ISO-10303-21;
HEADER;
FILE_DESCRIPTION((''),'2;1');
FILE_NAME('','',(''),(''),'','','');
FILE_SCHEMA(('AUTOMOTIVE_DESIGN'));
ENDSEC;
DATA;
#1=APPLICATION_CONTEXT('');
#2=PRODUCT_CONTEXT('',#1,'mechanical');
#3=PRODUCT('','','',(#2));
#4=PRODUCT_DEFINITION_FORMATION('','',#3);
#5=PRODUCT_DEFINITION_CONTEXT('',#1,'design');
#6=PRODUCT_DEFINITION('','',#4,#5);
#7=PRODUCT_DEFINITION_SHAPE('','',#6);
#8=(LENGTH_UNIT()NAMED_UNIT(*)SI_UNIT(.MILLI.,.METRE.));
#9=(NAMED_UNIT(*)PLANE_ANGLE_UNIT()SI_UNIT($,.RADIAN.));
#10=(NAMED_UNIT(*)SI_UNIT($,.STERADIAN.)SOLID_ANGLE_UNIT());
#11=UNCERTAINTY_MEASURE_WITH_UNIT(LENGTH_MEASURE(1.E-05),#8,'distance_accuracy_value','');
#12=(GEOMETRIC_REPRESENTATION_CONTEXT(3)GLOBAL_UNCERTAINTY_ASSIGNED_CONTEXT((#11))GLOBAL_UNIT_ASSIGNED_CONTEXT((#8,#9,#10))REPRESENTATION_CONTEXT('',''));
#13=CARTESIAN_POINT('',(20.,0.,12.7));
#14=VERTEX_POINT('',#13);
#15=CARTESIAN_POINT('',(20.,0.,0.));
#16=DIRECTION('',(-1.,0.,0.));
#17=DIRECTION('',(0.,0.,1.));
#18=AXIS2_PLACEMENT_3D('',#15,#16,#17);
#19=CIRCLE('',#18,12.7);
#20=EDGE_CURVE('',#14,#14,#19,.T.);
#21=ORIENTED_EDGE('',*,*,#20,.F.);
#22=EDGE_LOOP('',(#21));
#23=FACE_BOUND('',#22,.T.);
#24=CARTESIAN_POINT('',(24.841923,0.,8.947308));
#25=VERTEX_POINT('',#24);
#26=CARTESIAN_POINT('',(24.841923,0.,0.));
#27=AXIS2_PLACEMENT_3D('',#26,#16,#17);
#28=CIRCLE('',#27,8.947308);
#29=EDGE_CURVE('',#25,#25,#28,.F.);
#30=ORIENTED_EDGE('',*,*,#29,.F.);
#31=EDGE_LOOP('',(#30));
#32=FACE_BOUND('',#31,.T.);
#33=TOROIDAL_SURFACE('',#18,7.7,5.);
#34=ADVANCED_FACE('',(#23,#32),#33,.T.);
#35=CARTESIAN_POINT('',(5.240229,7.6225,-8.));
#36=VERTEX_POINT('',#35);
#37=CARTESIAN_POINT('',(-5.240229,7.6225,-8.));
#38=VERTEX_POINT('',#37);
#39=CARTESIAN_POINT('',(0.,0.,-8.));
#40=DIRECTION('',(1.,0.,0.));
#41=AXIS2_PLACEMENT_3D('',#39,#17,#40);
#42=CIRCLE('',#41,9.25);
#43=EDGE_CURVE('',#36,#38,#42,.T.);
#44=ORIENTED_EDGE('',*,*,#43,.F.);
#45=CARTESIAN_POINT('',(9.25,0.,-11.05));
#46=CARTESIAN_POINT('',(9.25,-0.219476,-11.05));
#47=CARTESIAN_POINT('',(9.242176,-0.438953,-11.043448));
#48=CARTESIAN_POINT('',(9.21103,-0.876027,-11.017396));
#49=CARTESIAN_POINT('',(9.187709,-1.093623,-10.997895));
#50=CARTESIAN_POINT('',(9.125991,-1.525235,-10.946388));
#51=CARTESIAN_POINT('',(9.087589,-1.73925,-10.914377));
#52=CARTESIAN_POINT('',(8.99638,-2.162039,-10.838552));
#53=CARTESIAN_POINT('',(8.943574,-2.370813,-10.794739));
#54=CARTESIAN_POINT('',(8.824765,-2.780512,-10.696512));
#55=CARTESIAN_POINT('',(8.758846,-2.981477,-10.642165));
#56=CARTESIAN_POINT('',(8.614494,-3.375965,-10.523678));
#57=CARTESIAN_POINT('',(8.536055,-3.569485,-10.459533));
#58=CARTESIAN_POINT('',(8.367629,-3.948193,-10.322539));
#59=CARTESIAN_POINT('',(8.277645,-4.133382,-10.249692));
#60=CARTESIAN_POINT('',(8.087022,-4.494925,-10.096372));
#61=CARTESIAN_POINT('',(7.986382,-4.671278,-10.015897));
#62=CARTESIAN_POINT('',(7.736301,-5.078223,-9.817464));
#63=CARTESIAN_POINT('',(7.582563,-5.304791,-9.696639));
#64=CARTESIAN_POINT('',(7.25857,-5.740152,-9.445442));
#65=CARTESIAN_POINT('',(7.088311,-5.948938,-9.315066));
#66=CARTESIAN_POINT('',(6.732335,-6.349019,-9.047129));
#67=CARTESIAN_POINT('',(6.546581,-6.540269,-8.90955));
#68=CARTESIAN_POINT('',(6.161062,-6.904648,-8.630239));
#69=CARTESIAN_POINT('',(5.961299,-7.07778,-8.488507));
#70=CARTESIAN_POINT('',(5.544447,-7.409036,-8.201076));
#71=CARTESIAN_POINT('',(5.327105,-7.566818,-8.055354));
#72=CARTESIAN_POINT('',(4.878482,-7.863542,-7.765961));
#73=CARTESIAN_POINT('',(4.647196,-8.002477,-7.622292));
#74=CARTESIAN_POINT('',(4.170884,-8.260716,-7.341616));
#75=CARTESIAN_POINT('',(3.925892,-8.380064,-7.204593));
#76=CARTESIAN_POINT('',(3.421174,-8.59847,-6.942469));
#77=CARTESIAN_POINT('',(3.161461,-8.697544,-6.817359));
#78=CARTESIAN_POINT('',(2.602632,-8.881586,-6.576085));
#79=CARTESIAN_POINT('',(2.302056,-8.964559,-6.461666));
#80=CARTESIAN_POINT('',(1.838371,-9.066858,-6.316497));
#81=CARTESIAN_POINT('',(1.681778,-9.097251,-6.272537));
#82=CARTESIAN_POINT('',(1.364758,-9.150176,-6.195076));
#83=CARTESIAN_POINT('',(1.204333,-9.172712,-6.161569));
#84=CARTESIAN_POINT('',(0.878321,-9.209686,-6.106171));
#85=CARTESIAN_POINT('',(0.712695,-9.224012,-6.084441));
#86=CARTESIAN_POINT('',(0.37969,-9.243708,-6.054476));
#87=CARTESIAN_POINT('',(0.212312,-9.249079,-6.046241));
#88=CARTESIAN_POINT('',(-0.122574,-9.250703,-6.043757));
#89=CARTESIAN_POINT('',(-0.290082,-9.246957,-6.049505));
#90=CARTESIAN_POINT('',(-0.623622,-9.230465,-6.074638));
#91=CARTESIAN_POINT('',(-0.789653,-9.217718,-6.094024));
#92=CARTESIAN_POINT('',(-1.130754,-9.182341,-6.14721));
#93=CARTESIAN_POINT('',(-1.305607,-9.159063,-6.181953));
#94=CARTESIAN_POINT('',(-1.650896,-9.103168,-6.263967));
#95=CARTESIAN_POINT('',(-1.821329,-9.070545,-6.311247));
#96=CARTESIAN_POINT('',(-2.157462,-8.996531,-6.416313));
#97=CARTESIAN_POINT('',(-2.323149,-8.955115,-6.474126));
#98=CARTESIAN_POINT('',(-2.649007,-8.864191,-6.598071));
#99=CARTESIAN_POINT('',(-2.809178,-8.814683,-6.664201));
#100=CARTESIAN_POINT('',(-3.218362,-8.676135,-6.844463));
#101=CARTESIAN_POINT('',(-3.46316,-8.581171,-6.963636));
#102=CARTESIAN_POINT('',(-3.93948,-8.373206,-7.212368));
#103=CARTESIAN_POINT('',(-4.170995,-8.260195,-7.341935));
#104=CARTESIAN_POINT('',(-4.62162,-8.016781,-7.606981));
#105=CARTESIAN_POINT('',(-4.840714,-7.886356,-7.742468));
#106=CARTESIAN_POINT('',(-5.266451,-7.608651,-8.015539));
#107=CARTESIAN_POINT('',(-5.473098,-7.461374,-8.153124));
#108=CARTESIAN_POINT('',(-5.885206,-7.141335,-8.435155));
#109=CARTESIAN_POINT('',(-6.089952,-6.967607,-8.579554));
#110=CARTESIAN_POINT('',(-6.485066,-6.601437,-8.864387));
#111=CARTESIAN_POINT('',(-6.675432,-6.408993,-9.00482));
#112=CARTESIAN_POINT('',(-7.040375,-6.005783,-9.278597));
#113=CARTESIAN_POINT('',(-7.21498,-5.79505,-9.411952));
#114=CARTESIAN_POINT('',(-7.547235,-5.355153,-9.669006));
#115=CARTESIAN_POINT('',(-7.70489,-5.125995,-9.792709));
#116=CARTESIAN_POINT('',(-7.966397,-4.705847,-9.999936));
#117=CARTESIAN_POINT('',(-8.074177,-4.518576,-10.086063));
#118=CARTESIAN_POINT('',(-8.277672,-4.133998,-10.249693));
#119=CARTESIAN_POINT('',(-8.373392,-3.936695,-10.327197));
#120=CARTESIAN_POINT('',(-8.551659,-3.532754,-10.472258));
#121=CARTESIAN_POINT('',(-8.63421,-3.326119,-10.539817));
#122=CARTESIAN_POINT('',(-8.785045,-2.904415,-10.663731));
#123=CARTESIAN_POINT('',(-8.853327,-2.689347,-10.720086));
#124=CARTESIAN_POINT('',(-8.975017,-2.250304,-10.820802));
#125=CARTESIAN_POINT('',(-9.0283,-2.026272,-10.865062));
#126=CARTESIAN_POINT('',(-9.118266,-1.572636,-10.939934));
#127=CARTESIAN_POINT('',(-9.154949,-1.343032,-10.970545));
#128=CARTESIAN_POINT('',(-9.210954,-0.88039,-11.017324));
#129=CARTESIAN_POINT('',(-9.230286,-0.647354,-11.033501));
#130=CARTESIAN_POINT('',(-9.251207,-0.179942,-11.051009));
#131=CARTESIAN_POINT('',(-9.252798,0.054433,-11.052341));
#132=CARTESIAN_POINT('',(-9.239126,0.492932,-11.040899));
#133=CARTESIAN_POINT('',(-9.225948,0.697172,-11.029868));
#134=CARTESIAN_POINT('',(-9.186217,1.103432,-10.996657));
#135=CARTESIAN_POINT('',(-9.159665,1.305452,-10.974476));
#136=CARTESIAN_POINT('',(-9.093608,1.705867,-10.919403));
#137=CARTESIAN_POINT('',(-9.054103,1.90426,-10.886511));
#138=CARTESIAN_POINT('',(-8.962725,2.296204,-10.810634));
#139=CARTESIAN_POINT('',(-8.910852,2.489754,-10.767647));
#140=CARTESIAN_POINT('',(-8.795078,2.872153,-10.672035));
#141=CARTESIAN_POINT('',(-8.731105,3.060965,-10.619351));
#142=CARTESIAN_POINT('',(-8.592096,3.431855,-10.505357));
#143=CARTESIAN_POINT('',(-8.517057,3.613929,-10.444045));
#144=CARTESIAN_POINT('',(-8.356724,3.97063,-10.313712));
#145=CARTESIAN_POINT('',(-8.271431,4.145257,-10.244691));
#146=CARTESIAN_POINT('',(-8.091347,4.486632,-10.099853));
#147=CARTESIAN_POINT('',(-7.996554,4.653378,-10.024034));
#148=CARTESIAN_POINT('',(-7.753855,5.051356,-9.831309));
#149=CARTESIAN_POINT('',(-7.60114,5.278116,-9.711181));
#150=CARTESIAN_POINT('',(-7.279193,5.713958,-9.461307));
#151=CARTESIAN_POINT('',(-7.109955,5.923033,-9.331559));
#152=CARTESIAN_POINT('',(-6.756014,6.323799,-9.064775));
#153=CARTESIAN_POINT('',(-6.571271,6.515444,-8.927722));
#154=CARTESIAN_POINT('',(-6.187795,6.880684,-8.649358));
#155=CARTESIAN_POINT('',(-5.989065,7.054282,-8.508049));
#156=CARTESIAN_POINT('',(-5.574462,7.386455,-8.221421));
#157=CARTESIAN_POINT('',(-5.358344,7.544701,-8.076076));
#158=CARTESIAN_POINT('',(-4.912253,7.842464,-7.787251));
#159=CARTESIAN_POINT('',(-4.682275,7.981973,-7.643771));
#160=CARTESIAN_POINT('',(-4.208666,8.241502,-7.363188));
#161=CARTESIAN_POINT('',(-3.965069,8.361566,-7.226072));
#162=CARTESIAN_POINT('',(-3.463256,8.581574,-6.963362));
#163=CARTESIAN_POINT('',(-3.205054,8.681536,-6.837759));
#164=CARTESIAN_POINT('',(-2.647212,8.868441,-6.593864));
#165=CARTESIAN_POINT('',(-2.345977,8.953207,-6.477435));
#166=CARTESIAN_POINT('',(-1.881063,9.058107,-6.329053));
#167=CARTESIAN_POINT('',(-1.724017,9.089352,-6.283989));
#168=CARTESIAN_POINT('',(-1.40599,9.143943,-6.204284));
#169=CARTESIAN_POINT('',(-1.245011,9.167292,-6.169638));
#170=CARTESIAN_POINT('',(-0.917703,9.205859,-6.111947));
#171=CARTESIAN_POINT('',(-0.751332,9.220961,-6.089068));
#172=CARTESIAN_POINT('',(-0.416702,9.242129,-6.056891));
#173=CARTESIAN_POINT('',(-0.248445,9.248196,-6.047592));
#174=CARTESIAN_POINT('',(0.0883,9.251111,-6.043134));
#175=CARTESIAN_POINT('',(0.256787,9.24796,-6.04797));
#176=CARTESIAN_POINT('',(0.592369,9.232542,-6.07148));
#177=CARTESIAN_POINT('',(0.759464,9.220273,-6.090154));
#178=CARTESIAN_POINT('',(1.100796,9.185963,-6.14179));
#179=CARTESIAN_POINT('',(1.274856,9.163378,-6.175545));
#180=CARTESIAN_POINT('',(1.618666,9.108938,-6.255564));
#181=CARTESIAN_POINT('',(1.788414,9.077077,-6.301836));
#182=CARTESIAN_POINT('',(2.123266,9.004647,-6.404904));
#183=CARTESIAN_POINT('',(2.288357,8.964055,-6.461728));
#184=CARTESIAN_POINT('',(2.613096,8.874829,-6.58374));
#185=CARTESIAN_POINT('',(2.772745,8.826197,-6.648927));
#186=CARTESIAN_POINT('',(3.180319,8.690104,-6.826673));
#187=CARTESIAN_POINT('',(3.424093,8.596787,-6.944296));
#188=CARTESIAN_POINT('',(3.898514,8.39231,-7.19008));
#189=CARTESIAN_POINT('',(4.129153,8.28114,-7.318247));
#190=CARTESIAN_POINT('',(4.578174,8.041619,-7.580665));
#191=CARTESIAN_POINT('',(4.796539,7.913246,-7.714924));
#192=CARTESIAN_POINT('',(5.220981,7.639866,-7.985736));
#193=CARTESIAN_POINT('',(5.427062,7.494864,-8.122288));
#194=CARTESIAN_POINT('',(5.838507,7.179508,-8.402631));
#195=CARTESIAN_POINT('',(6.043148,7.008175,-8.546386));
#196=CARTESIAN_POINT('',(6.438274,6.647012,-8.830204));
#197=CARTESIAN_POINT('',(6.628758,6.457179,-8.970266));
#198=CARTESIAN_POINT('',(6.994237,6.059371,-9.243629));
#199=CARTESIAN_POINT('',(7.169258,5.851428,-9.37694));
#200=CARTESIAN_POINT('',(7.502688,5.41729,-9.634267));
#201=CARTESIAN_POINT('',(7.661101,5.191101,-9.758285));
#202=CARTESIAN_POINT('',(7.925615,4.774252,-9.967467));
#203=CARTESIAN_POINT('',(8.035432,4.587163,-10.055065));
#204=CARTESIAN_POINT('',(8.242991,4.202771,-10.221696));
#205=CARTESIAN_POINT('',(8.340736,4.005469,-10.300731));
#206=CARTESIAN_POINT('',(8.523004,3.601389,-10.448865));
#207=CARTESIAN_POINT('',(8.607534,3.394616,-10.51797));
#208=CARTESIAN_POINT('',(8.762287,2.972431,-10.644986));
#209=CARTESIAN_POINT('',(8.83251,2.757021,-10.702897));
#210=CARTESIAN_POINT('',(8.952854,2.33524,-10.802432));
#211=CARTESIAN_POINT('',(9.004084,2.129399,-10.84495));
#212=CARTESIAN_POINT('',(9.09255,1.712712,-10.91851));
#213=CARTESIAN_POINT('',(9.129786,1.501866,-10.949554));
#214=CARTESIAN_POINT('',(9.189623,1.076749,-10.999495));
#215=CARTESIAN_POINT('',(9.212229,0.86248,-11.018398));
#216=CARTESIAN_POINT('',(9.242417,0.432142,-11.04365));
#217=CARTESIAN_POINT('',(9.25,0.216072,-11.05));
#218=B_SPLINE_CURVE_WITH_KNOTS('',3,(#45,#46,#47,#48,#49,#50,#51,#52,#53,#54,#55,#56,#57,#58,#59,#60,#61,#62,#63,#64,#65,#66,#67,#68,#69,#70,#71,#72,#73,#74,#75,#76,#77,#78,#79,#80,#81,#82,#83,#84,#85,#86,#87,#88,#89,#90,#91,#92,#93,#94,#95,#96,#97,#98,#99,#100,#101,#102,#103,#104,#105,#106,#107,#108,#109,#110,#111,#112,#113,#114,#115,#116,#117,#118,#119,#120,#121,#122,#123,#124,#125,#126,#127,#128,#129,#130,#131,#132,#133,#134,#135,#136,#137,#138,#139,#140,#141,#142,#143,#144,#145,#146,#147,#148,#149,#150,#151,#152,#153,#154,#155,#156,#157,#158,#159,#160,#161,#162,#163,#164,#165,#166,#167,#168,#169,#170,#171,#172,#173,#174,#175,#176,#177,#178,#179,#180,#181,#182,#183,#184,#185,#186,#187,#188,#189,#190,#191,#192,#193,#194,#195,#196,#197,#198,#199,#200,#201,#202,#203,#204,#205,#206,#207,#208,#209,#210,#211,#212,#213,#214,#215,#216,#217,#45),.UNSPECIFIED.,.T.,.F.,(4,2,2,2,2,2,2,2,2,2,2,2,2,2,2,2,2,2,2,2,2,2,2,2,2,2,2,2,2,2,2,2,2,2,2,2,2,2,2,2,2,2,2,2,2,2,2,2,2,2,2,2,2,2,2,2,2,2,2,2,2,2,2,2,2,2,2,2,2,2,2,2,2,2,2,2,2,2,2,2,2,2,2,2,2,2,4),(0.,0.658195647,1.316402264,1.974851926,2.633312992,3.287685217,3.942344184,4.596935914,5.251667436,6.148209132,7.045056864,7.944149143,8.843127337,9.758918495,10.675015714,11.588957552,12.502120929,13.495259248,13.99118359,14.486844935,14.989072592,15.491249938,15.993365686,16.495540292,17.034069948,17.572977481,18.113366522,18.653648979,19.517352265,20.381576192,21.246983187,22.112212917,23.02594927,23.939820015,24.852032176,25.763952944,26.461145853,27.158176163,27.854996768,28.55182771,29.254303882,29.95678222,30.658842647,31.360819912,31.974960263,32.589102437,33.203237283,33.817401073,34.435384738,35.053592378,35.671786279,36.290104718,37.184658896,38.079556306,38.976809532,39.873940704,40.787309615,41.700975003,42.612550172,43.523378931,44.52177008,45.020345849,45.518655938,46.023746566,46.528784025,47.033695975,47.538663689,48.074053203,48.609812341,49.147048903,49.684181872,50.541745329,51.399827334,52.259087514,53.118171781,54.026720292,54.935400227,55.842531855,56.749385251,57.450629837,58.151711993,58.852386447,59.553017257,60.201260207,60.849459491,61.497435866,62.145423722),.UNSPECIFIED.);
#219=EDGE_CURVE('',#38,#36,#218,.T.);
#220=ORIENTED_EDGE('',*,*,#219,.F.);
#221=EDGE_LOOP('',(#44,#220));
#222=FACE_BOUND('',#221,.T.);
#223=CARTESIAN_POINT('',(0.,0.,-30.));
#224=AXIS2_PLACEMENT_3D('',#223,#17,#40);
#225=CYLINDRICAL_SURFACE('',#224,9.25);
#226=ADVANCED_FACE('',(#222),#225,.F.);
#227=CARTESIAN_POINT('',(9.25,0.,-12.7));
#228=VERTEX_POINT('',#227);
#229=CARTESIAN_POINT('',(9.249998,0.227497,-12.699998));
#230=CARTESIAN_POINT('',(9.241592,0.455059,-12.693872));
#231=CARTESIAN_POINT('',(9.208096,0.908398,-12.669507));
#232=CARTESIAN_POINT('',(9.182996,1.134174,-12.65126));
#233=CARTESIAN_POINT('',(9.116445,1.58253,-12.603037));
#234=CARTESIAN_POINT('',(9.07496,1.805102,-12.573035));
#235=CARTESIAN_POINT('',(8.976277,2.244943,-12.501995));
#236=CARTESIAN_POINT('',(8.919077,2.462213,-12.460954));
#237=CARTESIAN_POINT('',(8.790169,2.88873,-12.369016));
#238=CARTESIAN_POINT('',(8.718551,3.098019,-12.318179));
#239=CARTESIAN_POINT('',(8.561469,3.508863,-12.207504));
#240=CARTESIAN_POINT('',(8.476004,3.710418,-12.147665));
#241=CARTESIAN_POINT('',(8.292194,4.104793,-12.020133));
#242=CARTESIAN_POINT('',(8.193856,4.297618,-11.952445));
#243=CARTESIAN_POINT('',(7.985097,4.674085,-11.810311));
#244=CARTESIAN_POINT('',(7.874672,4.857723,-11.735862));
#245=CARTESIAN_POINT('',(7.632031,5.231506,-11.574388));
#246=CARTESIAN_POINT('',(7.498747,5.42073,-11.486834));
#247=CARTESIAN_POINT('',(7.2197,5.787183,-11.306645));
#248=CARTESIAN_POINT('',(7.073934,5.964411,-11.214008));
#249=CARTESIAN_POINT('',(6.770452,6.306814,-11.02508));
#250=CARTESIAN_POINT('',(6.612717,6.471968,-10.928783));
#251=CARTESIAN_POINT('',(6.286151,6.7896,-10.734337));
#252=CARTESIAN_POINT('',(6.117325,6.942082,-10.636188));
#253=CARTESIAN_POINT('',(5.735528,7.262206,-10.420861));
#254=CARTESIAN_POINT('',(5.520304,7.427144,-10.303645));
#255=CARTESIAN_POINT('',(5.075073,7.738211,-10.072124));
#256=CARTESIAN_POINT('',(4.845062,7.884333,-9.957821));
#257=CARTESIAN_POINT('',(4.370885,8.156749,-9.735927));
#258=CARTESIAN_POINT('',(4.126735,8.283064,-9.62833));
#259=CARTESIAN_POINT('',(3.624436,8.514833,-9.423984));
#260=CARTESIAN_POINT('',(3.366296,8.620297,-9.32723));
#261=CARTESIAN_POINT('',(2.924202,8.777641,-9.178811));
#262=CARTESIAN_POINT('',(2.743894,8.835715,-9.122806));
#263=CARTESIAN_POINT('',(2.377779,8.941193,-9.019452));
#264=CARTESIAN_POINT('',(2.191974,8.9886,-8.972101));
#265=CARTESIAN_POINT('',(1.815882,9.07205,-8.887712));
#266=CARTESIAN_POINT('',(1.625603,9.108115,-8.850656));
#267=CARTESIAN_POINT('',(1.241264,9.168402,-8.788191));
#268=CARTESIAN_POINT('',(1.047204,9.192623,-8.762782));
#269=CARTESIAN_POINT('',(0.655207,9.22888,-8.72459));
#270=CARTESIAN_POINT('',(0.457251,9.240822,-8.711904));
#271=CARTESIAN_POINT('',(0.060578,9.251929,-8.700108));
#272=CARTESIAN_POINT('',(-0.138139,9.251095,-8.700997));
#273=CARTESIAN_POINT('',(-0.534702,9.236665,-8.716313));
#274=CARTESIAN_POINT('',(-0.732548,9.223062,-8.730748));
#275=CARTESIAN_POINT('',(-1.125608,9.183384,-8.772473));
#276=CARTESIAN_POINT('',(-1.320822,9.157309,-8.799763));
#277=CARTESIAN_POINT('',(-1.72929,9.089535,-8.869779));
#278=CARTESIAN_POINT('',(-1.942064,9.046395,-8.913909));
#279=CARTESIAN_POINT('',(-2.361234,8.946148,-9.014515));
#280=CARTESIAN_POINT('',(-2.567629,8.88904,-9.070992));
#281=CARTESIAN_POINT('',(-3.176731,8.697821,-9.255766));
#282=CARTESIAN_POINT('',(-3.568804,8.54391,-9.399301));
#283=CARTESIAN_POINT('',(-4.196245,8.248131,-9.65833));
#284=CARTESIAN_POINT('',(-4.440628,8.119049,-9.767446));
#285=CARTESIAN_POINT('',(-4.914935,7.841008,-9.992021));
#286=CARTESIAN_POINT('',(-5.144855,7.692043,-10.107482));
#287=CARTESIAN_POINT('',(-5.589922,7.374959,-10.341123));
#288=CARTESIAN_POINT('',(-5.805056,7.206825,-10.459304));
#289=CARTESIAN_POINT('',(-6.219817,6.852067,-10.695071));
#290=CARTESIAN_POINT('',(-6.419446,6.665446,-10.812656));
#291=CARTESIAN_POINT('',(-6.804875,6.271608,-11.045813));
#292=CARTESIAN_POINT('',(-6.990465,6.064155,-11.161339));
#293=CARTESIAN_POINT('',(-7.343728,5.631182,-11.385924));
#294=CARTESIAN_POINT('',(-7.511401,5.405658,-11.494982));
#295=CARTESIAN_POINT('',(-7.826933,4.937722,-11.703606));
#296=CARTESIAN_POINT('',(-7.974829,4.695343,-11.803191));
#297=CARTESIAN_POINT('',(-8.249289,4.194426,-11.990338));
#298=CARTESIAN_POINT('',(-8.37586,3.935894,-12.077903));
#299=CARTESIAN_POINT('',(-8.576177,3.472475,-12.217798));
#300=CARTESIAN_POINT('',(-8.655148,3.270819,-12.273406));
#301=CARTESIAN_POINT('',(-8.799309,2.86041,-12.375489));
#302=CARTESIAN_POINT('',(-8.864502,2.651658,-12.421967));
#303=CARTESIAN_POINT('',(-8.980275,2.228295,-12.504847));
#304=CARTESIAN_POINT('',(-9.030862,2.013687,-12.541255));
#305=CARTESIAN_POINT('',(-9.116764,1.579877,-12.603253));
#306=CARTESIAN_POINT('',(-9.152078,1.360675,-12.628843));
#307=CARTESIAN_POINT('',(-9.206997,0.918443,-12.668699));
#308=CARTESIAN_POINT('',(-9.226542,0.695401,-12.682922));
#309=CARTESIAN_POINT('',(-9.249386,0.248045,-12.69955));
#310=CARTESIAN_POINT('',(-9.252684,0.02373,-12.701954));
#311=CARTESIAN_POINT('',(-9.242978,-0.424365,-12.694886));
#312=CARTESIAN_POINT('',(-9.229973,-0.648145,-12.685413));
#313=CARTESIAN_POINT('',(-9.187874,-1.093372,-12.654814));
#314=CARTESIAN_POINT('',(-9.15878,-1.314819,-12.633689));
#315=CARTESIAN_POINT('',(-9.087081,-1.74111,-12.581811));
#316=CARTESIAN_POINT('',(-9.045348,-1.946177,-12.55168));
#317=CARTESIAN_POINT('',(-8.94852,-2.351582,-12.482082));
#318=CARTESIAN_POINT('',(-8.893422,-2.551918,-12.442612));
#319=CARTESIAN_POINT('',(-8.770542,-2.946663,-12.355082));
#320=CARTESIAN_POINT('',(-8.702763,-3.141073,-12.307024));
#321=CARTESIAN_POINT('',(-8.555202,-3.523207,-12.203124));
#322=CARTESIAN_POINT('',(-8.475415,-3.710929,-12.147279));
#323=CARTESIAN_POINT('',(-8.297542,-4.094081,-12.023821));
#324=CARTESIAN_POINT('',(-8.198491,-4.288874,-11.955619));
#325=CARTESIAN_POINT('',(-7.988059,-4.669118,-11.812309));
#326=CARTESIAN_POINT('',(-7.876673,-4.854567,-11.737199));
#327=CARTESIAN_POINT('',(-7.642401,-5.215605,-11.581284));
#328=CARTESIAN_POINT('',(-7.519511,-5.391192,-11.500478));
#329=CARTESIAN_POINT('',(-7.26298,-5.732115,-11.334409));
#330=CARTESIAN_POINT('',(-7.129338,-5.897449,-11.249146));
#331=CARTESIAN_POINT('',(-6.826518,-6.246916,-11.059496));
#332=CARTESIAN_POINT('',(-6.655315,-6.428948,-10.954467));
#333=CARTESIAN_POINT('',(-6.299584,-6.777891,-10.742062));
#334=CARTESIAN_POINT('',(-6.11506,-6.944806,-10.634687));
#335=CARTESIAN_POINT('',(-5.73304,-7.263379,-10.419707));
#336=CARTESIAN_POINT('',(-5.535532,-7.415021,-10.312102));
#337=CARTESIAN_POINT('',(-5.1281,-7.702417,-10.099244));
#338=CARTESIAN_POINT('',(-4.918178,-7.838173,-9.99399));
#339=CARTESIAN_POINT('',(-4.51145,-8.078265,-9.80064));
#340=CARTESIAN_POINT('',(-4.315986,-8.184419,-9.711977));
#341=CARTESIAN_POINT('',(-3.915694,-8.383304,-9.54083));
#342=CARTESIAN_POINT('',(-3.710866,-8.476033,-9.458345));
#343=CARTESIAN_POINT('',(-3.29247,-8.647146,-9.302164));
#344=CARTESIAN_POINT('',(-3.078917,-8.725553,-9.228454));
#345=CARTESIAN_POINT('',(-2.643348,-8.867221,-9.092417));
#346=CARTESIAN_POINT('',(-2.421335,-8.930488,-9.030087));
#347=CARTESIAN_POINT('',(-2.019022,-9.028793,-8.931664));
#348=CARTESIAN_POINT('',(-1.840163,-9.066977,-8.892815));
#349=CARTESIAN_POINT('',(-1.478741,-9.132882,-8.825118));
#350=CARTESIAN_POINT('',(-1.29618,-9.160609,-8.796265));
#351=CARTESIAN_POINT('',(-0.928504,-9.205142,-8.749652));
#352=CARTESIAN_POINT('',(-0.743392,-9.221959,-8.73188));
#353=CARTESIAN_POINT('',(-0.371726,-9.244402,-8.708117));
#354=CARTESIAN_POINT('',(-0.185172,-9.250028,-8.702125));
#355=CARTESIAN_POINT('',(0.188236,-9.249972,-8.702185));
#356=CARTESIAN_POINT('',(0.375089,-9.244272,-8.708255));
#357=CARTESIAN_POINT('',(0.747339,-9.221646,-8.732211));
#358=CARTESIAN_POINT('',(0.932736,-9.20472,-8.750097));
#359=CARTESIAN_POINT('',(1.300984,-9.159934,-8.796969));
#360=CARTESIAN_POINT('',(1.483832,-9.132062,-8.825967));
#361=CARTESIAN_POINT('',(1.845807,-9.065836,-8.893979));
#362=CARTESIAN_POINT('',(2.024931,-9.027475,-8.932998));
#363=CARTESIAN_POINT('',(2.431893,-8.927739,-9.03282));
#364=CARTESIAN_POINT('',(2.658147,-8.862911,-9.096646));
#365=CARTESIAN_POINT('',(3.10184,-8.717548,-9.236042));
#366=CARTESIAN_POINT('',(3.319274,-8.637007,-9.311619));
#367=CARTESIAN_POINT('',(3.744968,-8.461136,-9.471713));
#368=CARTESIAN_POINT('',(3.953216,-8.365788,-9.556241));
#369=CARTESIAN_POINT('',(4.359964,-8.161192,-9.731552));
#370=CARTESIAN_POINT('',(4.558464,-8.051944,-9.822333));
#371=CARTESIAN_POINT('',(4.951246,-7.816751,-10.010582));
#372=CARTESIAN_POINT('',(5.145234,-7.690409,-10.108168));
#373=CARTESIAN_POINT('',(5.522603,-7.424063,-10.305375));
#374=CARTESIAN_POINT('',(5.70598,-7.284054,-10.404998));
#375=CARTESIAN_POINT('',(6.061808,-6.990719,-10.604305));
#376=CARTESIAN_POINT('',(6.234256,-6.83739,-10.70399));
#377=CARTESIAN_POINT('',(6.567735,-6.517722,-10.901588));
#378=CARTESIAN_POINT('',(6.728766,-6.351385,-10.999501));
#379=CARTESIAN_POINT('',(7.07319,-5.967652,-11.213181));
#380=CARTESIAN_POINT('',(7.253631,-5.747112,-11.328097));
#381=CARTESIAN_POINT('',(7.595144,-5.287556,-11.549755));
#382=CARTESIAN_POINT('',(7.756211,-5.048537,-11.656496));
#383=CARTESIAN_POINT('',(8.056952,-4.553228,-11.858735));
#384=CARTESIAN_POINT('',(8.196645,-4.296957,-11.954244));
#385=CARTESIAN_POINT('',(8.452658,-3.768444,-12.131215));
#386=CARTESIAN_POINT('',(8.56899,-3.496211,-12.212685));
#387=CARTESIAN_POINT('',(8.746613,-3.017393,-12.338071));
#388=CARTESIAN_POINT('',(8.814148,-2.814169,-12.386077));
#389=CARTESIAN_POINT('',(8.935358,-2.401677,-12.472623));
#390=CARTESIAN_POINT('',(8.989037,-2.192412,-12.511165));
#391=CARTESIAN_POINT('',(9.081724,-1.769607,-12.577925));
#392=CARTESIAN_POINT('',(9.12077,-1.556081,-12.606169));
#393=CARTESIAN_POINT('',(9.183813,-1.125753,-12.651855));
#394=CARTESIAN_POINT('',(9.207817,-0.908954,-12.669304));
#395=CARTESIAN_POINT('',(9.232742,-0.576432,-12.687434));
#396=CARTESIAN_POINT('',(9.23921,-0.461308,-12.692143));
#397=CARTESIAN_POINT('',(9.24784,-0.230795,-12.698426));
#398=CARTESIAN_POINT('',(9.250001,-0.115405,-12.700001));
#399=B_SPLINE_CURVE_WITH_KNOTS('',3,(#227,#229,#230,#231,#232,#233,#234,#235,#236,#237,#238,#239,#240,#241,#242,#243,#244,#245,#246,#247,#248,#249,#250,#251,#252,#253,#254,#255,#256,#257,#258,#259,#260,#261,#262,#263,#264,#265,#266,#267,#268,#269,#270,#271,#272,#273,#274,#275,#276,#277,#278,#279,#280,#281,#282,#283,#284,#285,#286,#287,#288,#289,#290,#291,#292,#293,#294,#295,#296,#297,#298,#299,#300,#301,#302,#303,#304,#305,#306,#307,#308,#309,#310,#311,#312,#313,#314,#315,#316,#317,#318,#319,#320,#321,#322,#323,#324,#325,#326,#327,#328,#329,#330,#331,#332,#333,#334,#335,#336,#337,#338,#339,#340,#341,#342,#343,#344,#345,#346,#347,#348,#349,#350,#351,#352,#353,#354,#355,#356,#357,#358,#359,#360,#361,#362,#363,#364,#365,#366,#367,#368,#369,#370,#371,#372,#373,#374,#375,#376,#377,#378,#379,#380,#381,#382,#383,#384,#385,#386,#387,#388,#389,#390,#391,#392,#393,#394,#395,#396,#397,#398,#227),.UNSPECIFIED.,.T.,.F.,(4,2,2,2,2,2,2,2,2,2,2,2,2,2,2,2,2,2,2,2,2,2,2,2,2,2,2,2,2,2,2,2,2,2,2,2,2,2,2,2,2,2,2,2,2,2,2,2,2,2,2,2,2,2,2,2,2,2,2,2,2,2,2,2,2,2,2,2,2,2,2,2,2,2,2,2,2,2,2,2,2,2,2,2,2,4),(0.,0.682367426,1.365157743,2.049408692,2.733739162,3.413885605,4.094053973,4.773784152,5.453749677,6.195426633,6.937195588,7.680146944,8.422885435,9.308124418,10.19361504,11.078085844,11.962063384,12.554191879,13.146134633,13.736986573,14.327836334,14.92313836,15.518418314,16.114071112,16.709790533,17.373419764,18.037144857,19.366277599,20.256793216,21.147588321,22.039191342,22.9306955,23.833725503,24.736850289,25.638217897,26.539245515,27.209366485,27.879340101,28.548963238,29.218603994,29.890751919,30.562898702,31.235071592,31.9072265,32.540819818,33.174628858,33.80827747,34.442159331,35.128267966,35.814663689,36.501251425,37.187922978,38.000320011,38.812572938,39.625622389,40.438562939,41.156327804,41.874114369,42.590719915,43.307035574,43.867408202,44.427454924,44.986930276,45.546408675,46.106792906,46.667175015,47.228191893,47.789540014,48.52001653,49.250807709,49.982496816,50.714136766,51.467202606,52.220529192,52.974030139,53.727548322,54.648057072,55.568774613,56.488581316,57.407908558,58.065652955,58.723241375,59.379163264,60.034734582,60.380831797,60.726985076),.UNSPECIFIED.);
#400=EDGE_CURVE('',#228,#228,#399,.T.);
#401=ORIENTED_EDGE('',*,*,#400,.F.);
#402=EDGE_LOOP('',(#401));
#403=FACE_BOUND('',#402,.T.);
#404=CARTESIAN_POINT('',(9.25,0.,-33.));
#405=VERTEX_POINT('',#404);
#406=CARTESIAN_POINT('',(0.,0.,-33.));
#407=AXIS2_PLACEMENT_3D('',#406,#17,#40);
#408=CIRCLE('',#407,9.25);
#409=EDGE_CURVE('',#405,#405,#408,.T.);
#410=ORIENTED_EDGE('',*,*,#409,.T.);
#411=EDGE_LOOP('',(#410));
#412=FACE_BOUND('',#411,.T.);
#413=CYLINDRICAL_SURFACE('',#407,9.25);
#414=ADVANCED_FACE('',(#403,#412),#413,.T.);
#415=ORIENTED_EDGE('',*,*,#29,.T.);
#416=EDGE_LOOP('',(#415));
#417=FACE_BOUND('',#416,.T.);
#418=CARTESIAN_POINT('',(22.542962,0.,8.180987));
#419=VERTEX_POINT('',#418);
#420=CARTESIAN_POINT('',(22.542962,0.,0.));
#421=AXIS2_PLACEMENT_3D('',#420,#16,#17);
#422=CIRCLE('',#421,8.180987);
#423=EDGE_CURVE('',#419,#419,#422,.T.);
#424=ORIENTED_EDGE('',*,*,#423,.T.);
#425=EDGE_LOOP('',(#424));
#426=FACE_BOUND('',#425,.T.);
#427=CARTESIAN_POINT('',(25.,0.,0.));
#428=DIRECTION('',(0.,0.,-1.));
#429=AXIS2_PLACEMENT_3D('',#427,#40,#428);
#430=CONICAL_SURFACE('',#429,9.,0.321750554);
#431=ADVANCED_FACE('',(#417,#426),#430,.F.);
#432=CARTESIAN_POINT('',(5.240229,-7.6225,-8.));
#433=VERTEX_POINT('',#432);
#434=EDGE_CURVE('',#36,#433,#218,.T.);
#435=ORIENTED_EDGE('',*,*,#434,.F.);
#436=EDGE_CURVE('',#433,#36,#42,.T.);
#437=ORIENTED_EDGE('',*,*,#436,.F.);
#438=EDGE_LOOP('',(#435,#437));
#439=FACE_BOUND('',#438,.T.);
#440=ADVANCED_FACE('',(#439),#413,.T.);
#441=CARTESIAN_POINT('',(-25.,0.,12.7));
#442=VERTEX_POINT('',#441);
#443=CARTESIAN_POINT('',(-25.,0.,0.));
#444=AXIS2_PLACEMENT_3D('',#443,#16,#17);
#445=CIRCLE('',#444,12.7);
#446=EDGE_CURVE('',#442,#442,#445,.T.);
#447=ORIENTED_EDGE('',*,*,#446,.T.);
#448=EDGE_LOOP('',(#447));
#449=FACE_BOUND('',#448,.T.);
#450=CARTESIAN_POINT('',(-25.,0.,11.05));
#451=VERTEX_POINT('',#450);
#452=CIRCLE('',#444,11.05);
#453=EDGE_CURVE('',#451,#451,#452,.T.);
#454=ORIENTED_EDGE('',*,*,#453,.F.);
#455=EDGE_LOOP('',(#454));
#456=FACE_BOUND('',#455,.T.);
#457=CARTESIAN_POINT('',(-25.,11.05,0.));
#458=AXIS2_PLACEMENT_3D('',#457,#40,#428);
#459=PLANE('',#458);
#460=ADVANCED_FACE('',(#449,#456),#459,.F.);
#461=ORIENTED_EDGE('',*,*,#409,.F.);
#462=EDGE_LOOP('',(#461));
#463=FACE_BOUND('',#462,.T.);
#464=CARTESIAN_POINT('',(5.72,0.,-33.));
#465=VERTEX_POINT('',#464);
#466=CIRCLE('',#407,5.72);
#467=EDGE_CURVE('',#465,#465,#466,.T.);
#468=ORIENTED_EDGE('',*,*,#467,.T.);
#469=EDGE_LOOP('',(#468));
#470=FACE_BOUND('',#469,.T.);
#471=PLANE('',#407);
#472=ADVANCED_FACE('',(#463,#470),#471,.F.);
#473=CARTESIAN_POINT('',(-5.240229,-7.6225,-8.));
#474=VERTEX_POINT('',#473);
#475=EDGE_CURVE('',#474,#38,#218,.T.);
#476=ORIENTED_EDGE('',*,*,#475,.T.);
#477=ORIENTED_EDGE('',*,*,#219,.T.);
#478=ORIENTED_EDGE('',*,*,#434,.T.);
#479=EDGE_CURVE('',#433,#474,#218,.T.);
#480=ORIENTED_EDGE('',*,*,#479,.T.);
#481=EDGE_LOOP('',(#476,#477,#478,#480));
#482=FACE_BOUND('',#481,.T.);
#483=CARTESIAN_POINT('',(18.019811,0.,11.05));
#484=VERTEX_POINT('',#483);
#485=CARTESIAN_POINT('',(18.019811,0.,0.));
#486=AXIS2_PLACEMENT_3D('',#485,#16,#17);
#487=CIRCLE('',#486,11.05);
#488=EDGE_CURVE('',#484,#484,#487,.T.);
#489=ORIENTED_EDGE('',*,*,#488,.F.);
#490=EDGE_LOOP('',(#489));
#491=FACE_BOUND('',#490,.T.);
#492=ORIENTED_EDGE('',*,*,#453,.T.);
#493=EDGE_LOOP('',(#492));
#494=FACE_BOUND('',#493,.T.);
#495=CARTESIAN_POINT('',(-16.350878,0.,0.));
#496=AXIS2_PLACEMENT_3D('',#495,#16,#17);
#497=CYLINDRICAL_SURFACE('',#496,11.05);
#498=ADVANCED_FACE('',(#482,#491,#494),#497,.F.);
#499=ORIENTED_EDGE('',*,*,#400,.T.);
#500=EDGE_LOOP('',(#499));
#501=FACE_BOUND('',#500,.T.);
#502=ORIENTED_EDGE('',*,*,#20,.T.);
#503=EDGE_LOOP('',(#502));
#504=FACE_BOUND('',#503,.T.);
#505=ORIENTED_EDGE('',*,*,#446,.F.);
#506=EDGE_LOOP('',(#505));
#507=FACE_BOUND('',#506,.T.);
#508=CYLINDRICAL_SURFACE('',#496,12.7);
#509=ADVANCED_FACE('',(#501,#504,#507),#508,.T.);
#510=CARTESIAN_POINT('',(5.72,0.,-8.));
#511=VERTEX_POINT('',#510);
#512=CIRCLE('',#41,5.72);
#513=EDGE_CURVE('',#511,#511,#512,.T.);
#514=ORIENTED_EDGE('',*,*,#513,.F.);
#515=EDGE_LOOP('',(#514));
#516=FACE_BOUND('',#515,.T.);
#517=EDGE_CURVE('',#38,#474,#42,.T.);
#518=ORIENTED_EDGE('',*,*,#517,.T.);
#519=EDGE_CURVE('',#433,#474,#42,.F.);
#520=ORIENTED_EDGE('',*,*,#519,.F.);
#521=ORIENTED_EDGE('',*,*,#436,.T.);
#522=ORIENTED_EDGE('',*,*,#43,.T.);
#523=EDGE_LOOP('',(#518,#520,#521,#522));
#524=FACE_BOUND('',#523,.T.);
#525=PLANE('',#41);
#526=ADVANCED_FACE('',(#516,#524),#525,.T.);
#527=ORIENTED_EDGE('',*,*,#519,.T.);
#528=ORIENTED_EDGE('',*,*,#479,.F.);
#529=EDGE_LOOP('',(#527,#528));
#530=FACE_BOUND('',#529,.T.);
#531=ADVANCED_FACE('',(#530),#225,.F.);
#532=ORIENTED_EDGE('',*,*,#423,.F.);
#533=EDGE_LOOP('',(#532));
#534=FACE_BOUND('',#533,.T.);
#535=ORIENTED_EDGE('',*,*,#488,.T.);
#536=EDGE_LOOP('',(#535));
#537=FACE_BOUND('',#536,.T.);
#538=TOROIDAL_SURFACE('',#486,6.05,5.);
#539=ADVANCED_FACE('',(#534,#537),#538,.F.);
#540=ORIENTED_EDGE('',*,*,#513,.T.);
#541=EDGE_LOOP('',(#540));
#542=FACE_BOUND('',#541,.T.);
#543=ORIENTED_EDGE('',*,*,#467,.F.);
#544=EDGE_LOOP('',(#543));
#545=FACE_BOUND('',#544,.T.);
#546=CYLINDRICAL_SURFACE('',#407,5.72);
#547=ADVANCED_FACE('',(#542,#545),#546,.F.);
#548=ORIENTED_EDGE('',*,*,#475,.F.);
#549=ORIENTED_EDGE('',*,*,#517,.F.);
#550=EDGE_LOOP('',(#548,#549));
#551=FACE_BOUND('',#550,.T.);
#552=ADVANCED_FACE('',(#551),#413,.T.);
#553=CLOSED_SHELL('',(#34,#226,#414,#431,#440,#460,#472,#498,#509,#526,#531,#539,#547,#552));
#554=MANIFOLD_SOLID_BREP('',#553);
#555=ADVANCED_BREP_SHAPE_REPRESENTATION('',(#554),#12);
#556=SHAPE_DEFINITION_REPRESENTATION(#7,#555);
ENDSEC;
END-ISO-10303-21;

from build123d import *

# Parameters (mm, degrees)
SKIZZE3_R                       = 9.25
SCHNITT_LINEAR_AUSTRAGEN1_DEPTH = 30
SKIZZE5_R                       = 9.25
SKIZZE5_R_2                     = 5.72
AUFSATZ_LINEAR_AUSTRAGEN1_DEPTH = 25


with BuildPart() as part:
    # Skizze1 → Rotation1 (revolve)
    with BuildSketch(Plane.XY):
        with BuildLine():
            Line((-25, 12.7), (20, 12.7))
            ThreePointArc((20, 12.7), (23.535533906, 11.235533906), (25, 7.7))
            Line((25, 7.7), (25, 0))
            Line((25, 0), (23.01981108, 0))
            Line((23.01981108, 0), (23.01981108, 6.05))
            ThreePointArc((23.01981108, 6.05), (21.555344986, 9.585533906), (18.01981108, 11.05))
            Line((18.01981108, 11.05), (-25, 11.05))
            Line((-25, 11.05), (-25, 12.7))
        make_face()
    revolve(axis=Axis((-16.35087822, 0, 0), (1, 0, 0)))

    # Skizze2 → Schnitt-Rotation1 (revolve, cut)
    with BuildSketch(Plane(origin=(0, 0, 0), x_dir=(1, 0, 0), z_dir=(0, 1, 0))):
        Polygon((22, 0), (22, 8), (25, 9), (25, 0), align=None)
    revolve(axis=Axis((-29.523851761, 0, 0), (1, 0, 0)), mode=Mode.SUBTRACT)

    # Skizze3 → Schnitt-Linear austragen1 (cut)
    with BuildSketch(Plane.XY):
        Circle(SKIZZE3_R)
    extrude(amount=-SCHNITT_LINEAR_AUSTRAGEN1_DEPTH, mode=Mode.SUBTRACT)

    # Skizze5 → Aufsatz-Linear austragen1 (add)
    with BuildSketch(Plane.XY.offset(-8)):
        Circle(SKIZZE5_R)
        Circle(SKIZZE5_R_2, mode=Mode.SUBTRACT)
    extrude(amount=-AUFSATZ_LINEAR_AUSTRAGEN1_DEPTH)


solid = part.part
